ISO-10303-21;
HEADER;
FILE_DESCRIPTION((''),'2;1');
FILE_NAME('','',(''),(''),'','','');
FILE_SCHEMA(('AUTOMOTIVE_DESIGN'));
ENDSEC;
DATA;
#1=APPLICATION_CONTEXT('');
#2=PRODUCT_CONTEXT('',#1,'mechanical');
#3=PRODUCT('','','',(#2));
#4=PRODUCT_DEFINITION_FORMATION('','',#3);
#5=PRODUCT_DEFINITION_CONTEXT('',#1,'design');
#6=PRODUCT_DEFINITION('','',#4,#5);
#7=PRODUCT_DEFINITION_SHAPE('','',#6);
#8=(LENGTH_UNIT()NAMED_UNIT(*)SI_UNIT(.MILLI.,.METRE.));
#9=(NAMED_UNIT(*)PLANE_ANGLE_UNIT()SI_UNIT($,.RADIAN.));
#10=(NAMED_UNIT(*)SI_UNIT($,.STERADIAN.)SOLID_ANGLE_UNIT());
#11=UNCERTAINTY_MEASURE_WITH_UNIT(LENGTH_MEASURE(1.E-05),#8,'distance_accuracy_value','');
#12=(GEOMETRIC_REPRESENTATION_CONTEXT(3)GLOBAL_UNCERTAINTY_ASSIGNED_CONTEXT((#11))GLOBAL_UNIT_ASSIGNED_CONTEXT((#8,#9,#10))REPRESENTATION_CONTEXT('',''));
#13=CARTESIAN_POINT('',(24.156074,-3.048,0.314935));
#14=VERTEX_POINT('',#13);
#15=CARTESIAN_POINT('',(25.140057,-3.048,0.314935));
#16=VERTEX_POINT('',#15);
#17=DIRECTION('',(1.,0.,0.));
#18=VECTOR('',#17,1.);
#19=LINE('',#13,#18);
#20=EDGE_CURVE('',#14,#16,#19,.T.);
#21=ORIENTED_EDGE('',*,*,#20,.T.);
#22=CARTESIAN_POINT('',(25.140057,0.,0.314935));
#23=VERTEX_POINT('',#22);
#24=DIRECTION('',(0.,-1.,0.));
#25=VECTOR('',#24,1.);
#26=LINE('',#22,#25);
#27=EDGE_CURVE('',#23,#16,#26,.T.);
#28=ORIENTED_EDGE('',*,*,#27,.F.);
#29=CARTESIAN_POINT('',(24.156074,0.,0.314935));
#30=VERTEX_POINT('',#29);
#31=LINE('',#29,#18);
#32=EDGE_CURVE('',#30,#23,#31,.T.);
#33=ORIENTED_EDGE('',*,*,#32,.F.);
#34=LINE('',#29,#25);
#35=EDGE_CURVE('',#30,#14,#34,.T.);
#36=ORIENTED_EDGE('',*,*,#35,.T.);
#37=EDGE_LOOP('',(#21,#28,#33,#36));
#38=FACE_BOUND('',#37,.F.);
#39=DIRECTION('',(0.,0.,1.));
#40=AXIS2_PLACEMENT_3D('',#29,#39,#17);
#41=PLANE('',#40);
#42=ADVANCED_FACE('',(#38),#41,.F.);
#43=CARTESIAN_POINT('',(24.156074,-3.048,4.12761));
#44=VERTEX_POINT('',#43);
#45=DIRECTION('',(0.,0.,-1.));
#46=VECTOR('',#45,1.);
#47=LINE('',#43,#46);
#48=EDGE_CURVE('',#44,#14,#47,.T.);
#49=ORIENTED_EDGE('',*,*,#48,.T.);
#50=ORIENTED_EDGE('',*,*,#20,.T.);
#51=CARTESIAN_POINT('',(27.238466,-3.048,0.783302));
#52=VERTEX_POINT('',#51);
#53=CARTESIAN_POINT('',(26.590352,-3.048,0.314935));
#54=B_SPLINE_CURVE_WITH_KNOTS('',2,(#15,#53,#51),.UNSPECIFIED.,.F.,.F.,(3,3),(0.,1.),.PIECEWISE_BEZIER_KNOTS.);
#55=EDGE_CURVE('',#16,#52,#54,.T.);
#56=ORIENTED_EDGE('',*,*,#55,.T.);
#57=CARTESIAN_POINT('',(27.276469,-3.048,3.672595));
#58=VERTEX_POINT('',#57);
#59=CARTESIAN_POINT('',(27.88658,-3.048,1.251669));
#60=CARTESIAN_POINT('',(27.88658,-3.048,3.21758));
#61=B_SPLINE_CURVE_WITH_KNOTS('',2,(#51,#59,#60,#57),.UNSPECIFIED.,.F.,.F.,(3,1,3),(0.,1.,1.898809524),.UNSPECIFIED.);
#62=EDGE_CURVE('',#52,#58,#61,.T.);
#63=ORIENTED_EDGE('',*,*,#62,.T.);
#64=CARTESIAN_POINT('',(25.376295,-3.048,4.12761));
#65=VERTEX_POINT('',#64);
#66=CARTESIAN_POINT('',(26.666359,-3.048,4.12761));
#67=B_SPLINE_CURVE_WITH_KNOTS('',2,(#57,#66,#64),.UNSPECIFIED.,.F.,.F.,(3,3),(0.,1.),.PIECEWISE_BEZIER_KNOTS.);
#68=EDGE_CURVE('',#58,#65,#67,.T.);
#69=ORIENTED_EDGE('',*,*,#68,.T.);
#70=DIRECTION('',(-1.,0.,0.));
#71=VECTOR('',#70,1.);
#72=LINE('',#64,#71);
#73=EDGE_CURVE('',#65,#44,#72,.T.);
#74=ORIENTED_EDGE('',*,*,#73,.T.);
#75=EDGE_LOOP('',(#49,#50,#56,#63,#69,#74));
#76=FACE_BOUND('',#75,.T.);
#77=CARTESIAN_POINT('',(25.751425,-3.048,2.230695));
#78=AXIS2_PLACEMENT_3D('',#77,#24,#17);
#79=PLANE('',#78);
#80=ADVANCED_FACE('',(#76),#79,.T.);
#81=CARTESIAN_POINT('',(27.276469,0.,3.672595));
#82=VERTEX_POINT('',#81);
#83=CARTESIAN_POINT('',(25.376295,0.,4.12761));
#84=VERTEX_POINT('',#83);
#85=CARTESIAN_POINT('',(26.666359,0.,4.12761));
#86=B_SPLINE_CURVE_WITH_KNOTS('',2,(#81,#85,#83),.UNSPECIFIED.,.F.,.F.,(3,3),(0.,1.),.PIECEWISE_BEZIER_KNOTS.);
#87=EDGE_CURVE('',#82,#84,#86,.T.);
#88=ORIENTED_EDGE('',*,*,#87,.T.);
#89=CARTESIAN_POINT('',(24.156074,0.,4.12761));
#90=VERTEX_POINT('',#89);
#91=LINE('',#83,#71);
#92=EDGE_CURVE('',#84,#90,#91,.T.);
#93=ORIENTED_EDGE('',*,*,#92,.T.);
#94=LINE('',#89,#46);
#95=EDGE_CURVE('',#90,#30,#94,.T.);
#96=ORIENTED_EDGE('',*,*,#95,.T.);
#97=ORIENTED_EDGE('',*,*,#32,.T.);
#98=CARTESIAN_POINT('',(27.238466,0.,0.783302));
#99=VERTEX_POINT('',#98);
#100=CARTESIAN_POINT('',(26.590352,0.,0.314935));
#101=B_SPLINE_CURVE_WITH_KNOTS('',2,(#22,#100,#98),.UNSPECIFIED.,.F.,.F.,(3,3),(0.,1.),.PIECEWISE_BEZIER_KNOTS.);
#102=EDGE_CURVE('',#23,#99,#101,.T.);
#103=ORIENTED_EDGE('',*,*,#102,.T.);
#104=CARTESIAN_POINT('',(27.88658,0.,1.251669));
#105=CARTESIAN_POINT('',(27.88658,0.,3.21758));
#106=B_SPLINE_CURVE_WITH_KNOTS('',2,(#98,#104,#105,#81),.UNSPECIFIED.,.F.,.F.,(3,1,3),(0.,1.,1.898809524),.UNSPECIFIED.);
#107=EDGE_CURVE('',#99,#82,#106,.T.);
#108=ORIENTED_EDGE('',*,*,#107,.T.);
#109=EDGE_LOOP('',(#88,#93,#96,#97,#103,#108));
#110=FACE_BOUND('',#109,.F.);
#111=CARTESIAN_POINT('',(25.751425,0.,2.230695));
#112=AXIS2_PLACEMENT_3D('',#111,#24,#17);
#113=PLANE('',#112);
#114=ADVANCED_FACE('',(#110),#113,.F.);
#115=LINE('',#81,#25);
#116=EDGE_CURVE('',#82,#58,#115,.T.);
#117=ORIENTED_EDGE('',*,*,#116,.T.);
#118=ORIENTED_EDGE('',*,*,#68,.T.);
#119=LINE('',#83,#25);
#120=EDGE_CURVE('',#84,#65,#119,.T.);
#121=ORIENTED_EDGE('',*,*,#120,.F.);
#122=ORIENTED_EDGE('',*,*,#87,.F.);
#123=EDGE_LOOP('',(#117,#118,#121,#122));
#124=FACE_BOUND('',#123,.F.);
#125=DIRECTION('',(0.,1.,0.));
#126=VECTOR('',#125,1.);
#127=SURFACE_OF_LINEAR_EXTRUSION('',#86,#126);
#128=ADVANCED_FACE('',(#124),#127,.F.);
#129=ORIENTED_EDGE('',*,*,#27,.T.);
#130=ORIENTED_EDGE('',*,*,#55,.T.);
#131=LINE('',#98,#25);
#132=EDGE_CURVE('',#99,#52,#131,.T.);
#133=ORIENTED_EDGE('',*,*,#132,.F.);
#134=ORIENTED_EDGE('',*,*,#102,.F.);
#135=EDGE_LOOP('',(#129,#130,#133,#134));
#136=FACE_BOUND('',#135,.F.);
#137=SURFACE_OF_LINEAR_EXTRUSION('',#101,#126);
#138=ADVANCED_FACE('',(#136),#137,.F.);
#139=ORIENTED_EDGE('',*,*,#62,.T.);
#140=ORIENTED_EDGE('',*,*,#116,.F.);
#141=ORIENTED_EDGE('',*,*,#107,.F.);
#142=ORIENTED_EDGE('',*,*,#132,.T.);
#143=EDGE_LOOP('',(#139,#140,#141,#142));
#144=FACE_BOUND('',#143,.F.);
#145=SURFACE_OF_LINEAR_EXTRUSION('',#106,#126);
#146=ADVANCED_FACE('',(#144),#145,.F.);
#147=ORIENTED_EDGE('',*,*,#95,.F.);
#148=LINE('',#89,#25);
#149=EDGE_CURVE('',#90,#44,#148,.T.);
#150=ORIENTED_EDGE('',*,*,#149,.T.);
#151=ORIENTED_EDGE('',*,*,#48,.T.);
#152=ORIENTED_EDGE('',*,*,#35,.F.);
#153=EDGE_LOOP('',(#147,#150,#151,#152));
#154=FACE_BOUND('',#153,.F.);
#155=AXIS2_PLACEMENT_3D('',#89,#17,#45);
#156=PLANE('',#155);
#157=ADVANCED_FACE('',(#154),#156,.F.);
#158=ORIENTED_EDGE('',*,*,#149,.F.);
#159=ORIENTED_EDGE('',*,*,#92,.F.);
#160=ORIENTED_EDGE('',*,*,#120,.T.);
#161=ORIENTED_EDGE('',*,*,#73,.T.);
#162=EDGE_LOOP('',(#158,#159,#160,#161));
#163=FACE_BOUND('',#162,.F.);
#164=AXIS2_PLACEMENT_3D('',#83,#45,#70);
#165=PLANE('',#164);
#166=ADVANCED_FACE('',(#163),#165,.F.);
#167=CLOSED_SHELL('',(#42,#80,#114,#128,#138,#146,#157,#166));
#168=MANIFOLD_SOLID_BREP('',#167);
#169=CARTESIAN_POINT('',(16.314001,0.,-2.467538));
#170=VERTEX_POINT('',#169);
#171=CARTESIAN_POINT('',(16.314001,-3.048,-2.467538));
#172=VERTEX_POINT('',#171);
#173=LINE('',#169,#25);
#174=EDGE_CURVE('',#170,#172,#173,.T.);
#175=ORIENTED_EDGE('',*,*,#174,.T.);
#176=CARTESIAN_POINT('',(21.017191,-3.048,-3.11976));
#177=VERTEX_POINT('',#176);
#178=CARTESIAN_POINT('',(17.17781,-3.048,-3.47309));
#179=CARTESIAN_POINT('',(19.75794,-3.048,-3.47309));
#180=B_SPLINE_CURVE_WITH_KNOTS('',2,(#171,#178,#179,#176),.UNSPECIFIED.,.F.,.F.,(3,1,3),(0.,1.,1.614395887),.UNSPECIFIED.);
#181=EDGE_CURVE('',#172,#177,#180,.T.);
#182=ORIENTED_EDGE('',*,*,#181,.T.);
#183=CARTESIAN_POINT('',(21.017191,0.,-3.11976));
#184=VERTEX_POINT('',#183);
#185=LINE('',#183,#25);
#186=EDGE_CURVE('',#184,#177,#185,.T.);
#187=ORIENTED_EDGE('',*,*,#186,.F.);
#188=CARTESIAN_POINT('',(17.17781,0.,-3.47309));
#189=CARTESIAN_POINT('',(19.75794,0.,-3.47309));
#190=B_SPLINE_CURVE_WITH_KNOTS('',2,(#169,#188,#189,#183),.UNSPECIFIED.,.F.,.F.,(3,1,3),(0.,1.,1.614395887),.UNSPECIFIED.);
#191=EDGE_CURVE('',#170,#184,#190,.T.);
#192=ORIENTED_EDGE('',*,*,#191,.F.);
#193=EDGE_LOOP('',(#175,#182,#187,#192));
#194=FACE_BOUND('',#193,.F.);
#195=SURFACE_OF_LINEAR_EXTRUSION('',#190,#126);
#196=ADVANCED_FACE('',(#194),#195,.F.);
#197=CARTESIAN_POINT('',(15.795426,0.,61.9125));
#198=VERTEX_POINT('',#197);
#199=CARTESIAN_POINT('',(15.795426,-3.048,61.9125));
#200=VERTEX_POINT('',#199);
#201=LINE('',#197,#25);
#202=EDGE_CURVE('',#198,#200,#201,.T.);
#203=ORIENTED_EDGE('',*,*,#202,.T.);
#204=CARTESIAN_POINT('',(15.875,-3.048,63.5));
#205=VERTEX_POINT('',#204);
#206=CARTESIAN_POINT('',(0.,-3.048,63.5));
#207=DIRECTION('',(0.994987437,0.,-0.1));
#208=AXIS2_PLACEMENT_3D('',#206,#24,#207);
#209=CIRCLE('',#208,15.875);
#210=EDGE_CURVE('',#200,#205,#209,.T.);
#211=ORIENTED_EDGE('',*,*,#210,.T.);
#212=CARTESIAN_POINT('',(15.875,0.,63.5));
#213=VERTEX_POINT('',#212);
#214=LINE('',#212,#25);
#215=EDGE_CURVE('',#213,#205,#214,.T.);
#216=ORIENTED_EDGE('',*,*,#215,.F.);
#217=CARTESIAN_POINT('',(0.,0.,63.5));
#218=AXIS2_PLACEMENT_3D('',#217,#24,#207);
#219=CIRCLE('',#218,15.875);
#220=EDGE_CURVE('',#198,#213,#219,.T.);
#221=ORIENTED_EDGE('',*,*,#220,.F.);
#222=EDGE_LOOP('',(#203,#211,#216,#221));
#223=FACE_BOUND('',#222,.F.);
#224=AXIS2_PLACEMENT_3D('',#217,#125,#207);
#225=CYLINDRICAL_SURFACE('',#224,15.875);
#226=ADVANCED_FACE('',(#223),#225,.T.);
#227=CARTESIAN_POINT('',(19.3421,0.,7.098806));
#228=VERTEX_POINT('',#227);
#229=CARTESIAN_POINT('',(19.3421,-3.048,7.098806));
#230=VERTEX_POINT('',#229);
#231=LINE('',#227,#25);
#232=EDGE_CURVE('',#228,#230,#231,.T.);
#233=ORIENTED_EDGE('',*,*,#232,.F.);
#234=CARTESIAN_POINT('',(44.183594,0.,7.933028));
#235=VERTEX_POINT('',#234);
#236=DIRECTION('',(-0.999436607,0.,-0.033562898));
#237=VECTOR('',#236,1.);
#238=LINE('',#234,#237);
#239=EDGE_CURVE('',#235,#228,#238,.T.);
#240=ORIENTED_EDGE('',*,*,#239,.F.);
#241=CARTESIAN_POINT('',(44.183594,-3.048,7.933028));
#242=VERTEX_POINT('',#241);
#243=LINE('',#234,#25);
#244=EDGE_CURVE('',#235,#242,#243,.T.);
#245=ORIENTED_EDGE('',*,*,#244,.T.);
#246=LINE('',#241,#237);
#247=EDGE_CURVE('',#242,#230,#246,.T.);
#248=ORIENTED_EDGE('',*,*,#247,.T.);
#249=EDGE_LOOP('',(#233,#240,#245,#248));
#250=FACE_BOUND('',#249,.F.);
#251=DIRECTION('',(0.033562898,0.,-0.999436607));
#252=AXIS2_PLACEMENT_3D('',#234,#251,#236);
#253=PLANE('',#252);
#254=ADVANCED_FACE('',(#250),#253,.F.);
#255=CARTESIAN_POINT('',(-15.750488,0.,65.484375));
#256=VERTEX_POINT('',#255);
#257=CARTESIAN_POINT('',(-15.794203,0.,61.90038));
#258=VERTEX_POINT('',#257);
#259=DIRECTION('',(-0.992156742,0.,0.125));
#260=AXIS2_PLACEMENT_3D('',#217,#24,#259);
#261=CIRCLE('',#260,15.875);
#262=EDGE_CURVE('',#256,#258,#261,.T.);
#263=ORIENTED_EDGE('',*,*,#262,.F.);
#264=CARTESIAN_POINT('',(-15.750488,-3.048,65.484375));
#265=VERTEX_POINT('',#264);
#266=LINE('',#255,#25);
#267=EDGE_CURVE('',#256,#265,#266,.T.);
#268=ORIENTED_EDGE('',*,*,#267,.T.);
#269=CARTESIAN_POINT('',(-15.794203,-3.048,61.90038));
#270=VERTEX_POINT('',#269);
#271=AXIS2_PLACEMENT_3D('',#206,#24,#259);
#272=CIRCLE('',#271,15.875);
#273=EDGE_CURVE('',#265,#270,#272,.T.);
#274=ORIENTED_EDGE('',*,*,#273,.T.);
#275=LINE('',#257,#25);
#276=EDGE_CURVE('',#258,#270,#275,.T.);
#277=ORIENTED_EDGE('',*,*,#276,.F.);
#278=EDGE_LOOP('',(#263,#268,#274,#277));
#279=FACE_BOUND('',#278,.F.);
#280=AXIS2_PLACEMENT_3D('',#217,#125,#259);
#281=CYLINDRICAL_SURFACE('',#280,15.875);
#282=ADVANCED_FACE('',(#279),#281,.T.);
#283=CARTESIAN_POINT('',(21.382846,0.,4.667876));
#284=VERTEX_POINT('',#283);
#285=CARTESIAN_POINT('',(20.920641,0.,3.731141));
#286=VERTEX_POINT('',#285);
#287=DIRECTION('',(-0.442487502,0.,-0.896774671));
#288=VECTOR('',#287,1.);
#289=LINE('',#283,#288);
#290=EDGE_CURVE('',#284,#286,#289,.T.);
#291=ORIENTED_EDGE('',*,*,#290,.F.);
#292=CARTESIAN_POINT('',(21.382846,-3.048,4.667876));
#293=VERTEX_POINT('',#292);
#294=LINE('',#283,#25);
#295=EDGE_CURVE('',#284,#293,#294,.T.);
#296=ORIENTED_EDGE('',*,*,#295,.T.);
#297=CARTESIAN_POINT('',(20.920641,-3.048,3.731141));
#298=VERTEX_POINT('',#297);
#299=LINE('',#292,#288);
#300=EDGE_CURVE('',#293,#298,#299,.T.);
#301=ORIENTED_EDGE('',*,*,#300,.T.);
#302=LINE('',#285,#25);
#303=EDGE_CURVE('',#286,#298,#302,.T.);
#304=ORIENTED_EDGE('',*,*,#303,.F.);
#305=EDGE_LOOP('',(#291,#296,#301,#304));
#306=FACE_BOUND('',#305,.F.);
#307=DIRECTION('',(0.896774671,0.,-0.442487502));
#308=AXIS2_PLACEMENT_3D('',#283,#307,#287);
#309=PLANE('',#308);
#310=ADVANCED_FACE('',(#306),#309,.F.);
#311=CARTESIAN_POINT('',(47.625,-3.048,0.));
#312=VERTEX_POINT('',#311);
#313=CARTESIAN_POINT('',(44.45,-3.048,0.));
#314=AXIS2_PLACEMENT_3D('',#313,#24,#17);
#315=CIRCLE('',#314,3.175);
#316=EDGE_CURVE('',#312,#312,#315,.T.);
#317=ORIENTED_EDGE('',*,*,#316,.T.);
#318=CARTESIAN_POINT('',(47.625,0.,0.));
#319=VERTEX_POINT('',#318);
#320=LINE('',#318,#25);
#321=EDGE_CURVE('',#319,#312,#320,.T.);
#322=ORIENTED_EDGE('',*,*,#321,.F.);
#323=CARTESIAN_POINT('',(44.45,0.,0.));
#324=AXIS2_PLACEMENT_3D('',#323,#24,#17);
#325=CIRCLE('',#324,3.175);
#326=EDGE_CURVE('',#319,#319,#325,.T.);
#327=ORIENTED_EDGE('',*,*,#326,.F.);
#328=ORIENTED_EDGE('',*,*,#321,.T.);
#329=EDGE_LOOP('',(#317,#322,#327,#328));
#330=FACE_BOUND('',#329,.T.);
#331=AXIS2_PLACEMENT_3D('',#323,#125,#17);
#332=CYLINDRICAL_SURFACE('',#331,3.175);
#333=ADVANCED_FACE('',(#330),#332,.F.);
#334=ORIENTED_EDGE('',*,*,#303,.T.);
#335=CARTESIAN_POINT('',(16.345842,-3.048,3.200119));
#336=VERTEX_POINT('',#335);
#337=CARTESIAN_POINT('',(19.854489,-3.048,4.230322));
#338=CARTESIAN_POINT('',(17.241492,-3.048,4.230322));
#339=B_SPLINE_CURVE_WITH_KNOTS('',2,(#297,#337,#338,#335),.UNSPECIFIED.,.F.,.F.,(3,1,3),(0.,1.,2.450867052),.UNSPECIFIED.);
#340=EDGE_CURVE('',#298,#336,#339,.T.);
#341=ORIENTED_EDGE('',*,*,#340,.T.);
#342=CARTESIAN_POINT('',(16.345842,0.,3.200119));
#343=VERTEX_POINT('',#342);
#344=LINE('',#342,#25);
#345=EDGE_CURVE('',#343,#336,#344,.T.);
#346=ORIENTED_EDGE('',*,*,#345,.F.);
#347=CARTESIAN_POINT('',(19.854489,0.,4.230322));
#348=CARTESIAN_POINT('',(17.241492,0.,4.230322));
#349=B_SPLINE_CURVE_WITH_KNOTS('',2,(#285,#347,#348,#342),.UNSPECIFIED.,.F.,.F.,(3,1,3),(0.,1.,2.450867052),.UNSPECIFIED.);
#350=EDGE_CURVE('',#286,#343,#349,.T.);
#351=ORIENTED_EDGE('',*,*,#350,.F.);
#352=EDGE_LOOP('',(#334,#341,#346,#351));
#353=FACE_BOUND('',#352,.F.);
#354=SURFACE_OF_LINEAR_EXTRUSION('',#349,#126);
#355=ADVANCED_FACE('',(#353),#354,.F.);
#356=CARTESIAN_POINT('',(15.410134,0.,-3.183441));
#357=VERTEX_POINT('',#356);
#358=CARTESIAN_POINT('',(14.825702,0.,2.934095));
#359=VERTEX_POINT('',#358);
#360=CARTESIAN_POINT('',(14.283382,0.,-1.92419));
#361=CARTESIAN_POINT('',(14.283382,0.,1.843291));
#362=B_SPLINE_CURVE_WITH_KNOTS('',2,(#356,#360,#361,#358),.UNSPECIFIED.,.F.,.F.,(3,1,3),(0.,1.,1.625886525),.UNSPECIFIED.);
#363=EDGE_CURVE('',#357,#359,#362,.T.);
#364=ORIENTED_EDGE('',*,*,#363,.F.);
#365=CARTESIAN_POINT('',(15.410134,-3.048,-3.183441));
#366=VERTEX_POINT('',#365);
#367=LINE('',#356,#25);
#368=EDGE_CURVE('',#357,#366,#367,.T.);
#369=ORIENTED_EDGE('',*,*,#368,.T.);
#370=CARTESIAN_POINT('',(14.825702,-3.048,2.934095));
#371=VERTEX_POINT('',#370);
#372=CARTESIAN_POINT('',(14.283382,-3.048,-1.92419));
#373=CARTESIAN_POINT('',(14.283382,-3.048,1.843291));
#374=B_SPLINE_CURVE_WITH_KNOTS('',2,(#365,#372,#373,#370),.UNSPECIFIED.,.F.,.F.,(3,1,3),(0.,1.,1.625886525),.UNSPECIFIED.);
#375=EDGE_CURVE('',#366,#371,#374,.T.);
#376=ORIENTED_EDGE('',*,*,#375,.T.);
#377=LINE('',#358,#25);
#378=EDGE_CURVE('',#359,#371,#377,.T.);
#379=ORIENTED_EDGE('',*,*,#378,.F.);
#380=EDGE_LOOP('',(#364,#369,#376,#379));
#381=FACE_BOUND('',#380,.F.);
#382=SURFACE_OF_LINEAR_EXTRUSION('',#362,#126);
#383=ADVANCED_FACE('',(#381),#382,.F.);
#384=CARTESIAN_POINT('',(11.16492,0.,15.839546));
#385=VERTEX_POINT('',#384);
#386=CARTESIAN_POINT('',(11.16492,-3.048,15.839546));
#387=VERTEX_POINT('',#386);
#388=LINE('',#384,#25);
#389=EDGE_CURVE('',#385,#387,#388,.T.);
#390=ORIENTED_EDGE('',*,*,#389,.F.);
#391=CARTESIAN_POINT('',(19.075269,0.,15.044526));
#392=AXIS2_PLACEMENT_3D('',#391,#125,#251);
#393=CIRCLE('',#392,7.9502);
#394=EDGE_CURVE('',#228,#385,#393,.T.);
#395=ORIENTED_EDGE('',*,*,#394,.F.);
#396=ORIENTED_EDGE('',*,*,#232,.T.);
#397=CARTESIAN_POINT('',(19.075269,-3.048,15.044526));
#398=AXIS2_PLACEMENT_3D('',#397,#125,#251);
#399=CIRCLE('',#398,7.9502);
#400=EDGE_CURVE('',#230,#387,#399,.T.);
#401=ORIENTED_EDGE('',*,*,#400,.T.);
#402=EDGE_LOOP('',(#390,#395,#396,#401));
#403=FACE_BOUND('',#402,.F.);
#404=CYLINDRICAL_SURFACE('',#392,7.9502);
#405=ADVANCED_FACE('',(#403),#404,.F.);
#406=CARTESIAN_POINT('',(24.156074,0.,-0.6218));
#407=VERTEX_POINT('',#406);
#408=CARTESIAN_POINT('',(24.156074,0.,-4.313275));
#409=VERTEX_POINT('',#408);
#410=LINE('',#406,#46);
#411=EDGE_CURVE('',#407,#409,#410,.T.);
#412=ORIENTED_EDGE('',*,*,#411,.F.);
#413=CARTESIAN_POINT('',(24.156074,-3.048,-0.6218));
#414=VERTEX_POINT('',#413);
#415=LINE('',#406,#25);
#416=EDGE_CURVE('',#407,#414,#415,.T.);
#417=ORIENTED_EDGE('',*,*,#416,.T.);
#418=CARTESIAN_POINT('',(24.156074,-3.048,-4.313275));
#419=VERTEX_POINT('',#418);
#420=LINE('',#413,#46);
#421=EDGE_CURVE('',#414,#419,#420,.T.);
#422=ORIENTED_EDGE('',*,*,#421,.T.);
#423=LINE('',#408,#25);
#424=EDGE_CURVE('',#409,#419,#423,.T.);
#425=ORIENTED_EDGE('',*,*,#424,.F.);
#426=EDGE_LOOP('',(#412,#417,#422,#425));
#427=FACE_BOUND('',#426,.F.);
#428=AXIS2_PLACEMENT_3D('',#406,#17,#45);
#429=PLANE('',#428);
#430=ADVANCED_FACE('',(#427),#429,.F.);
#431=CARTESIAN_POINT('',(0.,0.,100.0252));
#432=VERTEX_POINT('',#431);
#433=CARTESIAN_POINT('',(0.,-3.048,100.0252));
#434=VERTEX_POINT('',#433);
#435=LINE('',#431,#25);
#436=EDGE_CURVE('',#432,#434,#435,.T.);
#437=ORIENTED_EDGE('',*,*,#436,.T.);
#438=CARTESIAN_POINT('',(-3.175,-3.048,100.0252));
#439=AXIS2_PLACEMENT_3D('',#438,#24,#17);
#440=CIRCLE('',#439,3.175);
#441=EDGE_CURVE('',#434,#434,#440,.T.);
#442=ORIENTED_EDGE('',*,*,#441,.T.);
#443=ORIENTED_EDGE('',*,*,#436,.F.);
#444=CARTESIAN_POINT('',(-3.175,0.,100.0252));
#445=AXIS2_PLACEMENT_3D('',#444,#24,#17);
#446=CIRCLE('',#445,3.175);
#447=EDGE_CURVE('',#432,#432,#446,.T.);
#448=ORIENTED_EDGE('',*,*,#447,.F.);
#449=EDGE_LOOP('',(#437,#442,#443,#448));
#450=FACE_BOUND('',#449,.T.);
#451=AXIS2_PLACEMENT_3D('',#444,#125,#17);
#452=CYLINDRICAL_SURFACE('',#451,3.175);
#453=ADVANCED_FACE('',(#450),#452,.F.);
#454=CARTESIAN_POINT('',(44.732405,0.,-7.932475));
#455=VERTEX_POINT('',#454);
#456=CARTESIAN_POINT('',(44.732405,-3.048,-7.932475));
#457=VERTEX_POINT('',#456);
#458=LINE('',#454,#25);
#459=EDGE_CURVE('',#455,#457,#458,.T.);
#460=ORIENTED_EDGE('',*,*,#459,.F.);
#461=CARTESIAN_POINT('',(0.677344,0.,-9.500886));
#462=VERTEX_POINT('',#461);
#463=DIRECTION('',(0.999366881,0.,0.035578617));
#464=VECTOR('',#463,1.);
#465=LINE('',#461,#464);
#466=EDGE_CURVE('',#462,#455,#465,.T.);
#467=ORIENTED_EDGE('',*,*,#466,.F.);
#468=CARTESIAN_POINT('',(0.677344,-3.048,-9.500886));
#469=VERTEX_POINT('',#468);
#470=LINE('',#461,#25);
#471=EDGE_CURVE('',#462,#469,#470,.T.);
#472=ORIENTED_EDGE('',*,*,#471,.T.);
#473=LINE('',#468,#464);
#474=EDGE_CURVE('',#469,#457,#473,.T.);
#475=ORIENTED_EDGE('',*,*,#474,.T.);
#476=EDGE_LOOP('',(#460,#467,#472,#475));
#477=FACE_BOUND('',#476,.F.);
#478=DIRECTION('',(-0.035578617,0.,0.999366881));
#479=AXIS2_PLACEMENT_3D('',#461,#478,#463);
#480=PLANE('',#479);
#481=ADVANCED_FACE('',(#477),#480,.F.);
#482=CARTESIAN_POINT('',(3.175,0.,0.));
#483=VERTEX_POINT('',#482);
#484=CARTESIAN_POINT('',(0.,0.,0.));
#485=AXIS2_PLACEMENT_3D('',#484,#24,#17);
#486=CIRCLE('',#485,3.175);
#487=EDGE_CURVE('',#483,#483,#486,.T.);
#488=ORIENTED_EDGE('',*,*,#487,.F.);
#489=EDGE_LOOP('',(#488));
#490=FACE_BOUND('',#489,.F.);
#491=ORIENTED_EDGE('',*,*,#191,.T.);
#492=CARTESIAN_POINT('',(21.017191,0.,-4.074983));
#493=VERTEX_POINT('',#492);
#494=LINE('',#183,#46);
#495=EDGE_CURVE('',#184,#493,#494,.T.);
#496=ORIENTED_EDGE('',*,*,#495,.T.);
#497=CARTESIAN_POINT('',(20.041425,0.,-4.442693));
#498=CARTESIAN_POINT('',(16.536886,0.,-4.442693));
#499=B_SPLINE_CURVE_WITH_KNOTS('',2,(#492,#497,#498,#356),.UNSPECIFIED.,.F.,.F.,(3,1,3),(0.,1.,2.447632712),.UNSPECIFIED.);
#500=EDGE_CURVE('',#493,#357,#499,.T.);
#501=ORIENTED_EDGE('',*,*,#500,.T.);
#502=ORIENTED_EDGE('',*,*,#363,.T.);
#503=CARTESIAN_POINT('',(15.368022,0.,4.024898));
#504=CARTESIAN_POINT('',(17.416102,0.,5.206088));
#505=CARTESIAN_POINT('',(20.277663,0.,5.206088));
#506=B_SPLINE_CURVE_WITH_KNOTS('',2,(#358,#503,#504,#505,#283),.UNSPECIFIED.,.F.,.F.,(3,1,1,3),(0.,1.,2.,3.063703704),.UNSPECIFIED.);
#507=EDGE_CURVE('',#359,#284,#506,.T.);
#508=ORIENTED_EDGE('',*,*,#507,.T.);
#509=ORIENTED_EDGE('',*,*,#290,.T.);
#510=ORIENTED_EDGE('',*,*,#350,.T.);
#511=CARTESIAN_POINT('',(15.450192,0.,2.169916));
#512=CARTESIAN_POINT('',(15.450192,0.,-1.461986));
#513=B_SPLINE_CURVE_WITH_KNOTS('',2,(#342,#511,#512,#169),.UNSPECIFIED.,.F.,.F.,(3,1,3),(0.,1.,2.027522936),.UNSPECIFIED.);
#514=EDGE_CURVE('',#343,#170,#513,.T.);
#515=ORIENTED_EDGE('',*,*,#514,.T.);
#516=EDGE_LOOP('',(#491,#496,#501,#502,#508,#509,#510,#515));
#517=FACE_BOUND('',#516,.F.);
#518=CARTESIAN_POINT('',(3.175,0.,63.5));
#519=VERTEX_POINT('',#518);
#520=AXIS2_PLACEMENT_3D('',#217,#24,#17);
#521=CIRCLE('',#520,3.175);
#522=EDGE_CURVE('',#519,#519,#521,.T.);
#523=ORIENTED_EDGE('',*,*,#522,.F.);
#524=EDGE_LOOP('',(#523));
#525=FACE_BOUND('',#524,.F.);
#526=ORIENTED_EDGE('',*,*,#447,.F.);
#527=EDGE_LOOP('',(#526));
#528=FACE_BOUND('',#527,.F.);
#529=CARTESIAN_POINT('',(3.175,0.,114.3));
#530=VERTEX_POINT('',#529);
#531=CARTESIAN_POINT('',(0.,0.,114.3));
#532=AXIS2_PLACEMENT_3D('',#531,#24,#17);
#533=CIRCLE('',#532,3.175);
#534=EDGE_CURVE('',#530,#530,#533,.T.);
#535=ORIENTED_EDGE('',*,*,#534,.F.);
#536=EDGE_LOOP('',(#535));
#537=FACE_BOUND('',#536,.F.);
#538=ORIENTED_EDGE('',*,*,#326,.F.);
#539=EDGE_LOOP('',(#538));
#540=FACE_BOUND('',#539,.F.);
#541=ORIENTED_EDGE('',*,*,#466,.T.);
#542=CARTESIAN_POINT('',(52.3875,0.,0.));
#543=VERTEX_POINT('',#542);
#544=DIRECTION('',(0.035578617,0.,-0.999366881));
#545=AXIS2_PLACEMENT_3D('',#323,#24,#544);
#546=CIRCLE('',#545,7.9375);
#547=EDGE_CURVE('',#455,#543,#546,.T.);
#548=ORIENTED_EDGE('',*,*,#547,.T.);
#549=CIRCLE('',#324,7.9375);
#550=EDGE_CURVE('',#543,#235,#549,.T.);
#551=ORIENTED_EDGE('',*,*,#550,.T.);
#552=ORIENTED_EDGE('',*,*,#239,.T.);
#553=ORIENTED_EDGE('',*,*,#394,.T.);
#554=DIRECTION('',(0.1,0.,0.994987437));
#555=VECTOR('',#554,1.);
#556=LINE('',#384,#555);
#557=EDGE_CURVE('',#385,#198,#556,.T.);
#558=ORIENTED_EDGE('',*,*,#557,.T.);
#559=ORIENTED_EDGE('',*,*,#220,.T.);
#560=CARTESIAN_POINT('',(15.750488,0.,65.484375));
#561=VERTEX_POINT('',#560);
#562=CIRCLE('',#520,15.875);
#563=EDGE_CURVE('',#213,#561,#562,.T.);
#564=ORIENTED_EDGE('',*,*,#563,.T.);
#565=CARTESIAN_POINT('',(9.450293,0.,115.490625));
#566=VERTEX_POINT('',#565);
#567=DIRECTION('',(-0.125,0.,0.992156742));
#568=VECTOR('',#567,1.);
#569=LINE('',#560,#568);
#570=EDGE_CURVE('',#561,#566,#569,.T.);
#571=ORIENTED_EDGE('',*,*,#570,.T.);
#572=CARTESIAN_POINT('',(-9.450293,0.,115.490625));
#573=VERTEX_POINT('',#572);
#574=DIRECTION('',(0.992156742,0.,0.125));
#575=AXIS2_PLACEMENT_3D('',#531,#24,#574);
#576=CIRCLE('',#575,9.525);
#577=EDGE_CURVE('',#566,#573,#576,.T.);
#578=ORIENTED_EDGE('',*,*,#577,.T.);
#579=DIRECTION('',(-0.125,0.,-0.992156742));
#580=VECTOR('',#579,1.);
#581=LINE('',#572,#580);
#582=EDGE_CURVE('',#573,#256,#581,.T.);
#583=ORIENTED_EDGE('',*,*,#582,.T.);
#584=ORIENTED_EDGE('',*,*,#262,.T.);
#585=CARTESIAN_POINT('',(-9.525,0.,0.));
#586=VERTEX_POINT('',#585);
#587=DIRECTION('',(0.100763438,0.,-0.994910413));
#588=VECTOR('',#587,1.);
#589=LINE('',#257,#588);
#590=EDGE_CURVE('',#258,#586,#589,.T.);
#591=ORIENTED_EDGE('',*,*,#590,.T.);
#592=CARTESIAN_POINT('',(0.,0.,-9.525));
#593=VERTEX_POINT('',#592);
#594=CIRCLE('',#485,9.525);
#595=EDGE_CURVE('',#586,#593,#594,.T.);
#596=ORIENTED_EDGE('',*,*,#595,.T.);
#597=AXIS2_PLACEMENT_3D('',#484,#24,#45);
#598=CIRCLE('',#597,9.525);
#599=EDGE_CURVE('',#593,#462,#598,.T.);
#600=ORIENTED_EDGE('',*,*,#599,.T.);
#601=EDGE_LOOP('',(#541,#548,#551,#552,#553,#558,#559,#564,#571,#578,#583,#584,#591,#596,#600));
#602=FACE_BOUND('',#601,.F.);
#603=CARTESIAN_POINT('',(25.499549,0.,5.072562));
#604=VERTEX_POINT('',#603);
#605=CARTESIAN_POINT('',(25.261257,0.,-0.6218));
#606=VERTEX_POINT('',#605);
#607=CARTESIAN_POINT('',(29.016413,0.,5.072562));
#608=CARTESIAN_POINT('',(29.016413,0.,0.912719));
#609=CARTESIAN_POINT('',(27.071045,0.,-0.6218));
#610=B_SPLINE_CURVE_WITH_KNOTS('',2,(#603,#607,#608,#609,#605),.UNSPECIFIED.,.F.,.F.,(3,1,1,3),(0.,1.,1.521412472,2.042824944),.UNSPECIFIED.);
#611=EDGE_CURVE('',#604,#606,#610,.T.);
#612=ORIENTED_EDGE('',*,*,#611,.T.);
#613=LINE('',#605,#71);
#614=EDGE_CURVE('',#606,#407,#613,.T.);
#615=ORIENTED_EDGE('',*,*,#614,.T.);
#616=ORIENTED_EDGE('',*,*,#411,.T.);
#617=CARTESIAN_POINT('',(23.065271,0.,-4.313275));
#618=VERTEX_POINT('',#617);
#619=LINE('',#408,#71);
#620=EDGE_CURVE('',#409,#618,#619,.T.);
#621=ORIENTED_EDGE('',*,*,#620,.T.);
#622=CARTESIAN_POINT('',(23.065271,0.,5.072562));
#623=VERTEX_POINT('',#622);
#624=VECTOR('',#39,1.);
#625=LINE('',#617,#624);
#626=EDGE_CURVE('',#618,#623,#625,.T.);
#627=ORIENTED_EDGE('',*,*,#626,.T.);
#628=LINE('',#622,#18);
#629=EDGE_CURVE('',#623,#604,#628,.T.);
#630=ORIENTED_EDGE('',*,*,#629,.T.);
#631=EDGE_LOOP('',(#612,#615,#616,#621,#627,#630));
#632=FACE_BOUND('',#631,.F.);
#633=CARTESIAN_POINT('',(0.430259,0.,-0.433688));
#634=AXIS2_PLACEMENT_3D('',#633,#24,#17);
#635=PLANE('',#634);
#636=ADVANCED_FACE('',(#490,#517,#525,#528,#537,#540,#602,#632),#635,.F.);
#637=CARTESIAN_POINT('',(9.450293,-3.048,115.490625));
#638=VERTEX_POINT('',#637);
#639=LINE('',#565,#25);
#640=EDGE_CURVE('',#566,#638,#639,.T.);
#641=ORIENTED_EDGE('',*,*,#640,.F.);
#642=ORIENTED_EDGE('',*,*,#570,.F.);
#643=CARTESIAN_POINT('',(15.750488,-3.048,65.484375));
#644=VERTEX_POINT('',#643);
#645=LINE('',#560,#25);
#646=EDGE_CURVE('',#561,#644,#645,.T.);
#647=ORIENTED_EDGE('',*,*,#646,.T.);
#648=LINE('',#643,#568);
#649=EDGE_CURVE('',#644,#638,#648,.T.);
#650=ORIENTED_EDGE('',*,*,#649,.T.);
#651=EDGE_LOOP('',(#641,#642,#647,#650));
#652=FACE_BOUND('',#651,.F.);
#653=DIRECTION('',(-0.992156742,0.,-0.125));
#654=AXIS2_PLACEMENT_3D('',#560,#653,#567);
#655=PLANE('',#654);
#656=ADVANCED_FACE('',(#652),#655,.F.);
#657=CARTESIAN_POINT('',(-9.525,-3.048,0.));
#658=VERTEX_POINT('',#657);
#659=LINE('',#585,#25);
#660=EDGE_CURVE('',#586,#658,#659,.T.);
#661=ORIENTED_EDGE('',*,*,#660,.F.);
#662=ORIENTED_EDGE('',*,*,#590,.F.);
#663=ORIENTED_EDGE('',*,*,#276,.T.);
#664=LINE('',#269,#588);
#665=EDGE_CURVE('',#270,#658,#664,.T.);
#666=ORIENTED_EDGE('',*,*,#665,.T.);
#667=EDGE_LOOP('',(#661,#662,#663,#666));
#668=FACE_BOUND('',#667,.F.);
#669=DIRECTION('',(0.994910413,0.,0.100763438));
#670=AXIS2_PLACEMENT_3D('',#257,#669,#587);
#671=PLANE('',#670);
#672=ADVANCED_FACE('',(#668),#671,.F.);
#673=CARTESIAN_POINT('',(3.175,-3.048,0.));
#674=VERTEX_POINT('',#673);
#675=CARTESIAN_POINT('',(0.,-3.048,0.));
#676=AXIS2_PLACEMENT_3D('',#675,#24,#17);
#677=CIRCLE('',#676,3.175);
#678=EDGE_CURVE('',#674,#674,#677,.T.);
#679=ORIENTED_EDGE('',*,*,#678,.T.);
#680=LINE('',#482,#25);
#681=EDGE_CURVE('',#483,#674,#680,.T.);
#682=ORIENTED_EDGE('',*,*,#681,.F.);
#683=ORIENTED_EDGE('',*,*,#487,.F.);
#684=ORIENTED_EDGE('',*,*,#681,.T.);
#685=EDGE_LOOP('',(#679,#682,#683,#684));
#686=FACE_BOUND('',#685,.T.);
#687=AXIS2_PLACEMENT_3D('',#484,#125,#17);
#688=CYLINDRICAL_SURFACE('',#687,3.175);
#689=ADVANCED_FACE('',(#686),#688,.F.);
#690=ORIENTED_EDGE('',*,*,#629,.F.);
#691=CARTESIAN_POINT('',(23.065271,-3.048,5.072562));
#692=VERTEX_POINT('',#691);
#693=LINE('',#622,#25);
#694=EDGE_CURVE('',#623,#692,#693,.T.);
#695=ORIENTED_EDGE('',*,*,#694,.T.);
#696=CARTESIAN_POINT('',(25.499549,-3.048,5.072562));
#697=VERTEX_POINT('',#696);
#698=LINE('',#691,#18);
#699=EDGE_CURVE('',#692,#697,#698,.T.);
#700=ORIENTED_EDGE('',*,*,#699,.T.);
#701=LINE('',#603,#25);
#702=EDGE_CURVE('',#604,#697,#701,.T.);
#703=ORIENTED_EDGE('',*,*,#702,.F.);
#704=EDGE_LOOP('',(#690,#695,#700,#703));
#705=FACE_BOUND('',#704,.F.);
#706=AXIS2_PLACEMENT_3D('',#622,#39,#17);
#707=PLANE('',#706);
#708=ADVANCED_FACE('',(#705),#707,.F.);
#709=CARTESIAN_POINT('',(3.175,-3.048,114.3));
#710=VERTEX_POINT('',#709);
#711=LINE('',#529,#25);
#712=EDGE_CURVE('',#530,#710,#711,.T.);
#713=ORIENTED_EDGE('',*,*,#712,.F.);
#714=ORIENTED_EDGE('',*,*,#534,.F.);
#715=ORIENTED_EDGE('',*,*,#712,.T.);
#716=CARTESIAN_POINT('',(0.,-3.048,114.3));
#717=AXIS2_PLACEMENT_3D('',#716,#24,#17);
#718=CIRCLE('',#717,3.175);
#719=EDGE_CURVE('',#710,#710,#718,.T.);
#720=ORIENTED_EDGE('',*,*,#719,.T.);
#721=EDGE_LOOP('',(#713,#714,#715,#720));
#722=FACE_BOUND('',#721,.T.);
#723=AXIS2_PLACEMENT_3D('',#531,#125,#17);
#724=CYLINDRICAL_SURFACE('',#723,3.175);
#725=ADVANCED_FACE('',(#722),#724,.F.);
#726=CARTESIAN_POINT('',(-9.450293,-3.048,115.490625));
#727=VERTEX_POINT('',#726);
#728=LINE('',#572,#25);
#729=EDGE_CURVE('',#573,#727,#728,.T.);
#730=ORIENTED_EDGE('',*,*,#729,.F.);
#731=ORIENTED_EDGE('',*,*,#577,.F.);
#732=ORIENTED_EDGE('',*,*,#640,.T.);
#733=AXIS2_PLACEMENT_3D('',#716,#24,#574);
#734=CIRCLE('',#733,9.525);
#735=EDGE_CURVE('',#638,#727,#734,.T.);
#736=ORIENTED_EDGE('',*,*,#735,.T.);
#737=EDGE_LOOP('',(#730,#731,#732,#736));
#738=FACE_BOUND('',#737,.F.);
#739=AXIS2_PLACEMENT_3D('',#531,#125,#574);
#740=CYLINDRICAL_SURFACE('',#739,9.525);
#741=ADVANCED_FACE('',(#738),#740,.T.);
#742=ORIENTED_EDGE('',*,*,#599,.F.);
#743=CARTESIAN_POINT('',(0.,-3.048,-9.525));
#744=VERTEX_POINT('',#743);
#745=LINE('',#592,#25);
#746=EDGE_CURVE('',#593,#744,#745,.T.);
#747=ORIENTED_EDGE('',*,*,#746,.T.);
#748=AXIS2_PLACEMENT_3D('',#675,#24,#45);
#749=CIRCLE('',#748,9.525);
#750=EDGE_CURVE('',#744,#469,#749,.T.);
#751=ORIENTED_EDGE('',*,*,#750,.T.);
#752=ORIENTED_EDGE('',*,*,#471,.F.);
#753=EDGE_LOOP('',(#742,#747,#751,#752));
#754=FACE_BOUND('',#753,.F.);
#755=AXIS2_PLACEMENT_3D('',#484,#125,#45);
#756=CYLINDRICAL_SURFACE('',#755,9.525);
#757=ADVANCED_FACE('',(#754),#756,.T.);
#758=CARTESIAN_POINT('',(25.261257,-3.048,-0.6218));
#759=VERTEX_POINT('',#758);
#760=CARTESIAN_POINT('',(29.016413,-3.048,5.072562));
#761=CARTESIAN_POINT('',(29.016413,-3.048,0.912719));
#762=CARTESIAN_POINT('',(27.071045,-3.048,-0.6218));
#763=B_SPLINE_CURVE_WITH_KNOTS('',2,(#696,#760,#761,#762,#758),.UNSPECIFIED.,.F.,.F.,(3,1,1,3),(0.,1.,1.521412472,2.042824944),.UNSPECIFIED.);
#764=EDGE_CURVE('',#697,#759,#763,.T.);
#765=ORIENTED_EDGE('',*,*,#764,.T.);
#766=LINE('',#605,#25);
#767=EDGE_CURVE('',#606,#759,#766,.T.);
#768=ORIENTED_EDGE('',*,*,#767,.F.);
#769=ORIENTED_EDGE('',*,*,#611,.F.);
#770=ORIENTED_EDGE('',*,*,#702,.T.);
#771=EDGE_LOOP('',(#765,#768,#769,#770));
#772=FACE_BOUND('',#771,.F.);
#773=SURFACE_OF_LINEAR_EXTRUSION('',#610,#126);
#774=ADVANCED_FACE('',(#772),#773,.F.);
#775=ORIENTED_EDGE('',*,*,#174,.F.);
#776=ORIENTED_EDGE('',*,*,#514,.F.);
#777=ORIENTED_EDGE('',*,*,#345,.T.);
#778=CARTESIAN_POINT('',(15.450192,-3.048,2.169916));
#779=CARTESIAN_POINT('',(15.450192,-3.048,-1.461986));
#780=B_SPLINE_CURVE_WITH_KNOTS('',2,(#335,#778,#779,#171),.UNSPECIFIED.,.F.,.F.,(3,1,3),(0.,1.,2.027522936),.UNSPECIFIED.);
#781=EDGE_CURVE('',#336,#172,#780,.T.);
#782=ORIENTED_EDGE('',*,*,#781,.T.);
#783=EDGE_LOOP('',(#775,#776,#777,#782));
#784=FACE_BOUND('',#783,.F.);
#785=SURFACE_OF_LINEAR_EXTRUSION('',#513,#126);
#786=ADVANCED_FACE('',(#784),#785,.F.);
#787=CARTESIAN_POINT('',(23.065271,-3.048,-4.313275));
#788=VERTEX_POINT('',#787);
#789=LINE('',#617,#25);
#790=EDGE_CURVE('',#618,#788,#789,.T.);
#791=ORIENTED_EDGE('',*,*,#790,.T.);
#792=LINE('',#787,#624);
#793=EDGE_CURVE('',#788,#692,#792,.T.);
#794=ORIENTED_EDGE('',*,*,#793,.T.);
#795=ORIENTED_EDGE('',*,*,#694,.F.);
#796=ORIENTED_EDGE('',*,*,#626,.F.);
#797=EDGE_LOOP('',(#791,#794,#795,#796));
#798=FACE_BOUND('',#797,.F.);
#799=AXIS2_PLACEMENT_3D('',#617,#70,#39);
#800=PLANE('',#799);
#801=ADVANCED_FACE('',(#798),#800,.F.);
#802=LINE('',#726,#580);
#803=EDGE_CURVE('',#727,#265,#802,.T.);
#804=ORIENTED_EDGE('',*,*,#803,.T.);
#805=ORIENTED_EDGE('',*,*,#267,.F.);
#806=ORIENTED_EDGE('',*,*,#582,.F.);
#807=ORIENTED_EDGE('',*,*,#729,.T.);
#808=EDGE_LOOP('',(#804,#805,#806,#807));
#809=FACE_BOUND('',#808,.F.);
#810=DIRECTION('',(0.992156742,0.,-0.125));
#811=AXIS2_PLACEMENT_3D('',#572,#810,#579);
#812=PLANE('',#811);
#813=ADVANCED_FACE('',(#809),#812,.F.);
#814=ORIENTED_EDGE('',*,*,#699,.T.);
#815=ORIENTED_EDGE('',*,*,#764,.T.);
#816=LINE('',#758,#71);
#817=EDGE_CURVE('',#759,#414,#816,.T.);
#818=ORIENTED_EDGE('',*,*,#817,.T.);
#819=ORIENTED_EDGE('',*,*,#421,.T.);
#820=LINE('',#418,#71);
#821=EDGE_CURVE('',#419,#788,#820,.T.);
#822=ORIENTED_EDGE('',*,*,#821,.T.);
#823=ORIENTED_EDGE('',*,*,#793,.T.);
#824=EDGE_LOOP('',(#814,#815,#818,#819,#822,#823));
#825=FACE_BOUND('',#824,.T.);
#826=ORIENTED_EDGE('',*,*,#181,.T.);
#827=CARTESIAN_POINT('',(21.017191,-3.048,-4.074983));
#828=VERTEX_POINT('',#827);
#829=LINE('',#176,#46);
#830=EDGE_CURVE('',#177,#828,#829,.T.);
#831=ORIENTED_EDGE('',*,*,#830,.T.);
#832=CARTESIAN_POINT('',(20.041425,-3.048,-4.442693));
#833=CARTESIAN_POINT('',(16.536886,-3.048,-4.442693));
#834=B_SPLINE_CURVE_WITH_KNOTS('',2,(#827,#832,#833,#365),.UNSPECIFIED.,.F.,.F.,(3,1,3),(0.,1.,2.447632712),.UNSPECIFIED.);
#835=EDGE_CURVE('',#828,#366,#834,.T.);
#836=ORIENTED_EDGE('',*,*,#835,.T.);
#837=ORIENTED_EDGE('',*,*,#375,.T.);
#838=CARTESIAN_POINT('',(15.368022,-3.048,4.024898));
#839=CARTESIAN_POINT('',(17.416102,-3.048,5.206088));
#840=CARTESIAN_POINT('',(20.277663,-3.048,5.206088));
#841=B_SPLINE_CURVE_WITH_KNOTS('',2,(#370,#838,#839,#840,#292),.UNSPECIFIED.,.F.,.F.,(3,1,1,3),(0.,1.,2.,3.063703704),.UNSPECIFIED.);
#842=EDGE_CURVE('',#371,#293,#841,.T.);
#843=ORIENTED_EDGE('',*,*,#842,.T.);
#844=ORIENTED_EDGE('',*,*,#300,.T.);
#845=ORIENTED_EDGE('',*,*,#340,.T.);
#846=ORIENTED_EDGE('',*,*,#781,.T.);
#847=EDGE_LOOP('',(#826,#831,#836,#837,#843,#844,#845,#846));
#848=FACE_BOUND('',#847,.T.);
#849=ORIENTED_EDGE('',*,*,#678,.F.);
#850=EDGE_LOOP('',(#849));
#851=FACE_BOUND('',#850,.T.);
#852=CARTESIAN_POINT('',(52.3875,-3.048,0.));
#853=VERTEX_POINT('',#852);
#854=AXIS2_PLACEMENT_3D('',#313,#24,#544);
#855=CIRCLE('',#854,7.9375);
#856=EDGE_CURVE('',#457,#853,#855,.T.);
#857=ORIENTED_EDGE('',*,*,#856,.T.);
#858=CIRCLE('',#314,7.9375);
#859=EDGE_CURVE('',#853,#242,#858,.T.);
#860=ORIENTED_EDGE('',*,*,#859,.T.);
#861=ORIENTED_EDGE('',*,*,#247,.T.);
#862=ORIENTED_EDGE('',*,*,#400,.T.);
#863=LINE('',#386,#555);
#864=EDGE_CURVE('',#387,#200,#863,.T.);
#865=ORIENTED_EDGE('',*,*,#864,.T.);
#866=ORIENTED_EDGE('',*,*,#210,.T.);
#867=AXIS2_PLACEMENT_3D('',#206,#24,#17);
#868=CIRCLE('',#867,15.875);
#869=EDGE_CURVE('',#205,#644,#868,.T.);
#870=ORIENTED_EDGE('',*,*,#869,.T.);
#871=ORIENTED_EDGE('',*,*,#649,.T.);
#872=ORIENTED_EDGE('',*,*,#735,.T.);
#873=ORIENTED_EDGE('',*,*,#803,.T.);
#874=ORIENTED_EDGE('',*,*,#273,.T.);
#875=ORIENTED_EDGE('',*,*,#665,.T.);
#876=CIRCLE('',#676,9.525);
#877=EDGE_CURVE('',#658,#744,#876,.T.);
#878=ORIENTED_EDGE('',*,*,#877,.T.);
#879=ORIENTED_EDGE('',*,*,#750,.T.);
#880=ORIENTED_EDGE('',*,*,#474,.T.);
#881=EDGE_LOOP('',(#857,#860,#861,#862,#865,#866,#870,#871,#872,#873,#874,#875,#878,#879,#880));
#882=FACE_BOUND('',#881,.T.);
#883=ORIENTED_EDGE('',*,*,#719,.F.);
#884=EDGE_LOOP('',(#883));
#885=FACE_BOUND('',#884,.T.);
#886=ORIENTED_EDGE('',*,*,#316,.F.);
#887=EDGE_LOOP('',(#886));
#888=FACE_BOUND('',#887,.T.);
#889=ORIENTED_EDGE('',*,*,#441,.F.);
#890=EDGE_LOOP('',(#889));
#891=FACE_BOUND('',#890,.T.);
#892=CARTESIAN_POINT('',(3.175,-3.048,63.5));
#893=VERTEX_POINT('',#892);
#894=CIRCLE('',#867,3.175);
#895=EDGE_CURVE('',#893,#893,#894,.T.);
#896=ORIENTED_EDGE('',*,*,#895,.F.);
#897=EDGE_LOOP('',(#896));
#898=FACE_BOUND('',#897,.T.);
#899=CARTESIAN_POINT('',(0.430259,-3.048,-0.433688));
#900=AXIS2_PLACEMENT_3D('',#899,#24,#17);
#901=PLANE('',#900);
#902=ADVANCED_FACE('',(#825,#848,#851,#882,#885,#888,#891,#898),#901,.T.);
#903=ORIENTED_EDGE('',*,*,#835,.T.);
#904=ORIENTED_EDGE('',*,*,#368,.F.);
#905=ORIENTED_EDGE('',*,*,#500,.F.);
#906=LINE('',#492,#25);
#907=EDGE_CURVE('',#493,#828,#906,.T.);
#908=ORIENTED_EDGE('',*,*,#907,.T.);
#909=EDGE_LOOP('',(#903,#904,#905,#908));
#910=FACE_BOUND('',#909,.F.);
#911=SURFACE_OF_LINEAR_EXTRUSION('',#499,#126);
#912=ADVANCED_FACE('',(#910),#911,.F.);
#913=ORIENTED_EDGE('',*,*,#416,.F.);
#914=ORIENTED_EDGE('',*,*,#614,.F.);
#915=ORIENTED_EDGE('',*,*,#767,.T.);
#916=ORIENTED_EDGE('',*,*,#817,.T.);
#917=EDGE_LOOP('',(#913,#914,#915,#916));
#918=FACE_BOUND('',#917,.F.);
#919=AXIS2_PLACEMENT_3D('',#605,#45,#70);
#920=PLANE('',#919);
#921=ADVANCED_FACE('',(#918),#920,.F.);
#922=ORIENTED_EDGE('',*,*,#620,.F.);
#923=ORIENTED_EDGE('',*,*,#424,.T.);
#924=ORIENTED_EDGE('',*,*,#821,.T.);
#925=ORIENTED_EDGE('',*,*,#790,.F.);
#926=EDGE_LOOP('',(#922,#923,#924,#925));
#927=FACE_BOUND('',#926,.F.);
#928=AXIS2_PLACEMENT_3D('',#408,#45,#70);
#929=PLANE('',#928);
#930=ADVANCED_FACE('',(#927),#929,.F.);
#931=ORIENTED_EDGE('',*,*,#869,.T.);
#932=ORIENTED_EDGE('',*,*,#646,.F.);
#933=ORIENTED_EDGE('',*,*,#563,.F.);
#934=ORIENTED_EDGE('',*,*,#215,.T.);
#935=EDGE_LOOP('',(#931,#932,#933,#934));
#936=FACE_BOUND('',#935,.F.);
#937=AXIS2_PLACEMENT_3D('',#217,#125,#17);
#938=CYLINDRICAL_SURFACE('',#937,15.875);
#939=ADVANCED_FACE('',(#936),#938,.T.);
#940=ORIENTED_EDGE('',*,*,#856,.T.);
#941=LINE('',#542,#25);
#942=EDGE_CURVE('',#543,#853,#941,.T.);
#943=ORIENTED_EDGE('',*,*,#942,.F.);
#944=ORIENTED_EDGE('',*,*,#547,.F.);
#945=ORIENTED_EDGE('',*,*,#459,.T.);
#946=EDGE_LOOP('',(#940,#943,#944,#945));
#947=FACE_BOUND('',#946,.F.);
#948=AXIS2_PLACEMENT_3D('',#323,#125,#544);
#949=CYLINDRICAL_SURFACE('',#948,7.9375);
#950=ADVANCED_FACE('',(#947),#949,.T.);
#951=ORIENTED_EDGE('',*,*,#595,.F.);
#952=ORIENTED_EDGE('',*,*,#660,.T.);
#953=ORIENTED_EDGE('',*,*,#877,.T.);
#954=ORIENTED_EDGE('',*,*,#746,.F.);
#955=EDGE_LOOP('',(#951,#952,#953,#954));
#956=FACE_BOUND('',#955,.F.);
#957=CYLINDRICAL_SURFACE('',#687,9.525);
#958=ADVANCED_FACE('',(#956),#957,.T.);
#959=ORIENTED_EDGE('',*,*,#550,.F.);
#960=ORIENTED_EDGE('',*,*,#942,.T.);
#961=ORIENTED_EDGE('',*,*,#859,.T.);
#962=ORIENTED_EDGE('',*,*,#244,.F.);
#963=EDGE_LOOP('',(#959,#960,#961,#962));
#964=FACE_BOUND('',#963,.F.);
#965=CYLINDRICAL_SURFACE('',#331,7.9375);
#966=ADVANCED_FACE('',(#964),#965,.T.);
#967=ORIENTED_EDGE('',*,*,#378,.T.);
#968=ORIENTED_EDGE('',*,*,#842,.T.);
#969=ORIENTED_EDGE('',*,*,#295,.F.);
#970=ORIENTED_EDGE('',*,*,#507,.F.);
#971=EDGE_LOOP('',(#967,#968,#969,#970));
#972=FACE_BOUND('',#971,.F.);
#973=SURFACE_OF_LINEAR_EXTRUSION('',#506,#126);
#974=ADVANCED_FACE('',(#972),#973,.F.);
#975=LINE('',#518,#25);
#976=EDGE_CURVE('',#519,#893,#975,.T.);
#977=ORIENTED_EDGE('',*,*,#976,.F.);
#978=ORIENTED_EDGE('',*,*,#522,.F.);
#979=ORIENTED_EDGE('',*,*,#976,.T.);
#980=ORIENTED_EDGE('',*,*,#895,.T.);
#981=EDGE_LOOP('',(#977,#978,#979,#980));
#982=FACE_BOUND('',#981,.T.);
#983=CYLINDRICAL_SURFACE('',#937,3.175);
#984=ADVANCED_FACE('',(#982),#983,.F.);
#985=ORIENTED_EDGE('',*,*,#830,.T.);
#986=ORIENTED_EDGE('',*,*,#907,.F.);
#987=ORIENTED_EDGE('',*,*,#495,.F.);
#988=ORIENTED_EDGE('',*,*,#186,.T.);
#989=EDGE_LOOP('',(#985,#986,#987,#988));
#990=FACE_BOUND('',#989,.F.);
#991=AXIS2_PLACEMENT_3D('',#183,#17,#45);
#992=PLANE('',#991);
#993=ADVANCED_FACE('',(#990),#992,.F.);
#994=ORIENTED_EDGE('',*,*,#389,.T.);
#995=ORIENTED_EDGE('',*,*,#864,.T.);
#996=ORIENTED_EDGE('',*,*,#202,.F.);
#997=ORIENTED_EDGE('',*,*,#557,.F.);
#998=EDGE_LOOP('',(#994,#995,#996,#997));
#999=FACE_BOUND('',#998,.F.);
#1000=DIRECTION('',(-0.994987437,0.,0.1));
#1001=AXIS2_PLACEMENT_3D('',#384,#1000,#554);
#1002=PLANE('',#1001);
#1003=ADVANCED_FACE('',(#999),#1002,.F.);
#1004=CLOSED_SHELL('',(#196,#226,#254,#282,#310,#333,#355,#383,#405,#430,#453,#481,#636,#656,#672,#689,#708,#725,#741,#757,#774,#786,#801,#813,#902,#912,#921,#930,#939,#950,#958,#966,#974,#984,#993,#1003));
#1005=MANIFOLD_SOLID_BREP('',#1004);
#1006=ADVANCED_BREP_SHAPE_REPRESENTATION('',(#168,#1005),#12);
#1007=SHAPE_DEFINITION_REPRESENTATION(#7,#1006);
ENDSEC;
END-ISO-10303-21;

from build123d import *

# Parameters (mm, degrees)
F0_R     = 3.175
F1_DEPTH = 3.048


with BuildPart() as f1:
    # F0 (on Front) → F1 (new body)
    with BuildSketch(Plane.XZ):
        with BuildLine():
            ThreePointArc((0.6773435479, -9.500885786), (6.9705567315, -6.4912990883), (9.525, 0))
            ThreePointArc((9.525, 0), (0, 9.525), (-9.525, 0))
            ThreePointArc((-9.525, 0), (-6.7351920908, -6.7351920908), (0, -9.525))
            Line((0, -9.525), (0.6773435479, -9.500885786))
        make_face()
        Circle(F0_R, mode=Mode.SUBTRACT)
        with BuildLine():
            ThreePointArc((-9.525, 0), (0, 9.525), (9.525, 0))
            ThreePointArc((9.525, 0), (6.9705567315, -6.4912990883), (0.6773435479, -9.500885786))
            Line((0.6773435479, -9.500885786), (44.7324052746, -7.9324746146))
            ThreePointArc((44.7324052746, -7.9324746146), (36.517244624, -0.2744055301), (44.1835944934, 7.9330280698))
            Line((44.1835944934, 7.9330280698), (19.3421003836, 7.0988055303))
            ThreePointArc((19.3421003836, 7.0988055303), (13.26958371, 9.6131635709), (11.1649195057, 15.839546445))
            Line((11.1649195057, 15.839546445), (15.7954255641, 61.9125))
            ThreePointArc((15.7954255641, 61.9125), (0.0060905531, 47.6250011683), (-15.7942028036, 61.9003804205))
            Line((-15.7942028036, 61.9003804205), (-9.525, 0))
        make_face()
        with BuildLine():
            add(Edge.make_bspline(
                [(20.9206411995, 3.7311409307), (19.8544890082, 4.2303220145), (18.7883368169, 4.2303220145)],
                knots=[0, 0, 0, 1, 1, 1], degree=2))
            add(Edge.make_bspline(
                [(18.7883368169, 4.2303220145), (17.2414917301, 4.2303220145), (16.3458417197, 3.2001190782)],
                knots=[0, 0, 0, 1, 1, 1], degree=2))
            add(Edge.make_bspline(
                [(16.3458417197, 3.2001190782), (15.4501917092, 2.1699161419), (15.4501917092, 0.378616121)],
                knots=[0, 0, 0, 1, 1, 1], degree=2))
            add(Edge.make_bspline(
                [(15.4501917092, 0.378616121), (15.4501917092, -1.4619857353), (16.3140009509, -2.4675377538)],
                knots=[0, 0, 0, 1, 1, 1], degree=2))
            add(Edge.make_bspline(
                [(16.3140009509, -2.4675377538), (17.1778101926, -3.4730897724), (18.7760113581, -3.4730897724)],
                knots=[0, 0, 0, 1, 1, 1], degree=2))
            add(Edge.make_bspline(
                [(18.7760113581, -3.4730897724), (19.7579395805, -3.4730897724), (21.0171906273, -3.1197599518)],
                knots=[0, 0, 0, 1, 1, 1], degree=2))
            Line((21.0171906273, -3.1197599518), (21.0171906273, -4.0749830134))
            add(Edge.make_bspline(
                [(21.0171906273, -4.0749830134), (20.0414251343, -4.442692536), (18.6096176635, -4.442692536)],
                knots=[0, 0, 0, 1, 1, 1], degree=2))
            add(Edge.make_bspline(
                [(18.6096176635, -4.442692536), (16.536886332, -4.442692536), (15.4101339679, -3.1834414893)],
                knots=[0, 0, 0, 1, 1, 1], degree=2))
            add(Edge.make_bspline(
                [(15.4101339679, -3.1834414893), (14.2833816039, -1.9241904425), (14.2833816039, 0.3929958231)],
                knots=[0, 0, 0, 1, 1, 1], degree=2))
            add(Edge.make_bspline(
                [(14.2833816039, 0.3929958231), (14.2833816039, 1.8432914821), (14.8257017937, 2.9340945912)],
                knots=[0, 0, 0, 1, 1, 1], degree=2))
            add(Edge.make_bspline(
                [(14.8257017937, 2.9340945912), (15.3680219835, 4.0248977002), (16.3920621904, 4.6154926039)],
                knots=[0, 0, 0, 1, 1, 1], degree=2))
            add(Edge.make_bspline(
                [(16.3920621904, 4.6154926039), (17.4161023973, 5.2060875076), (18.8027165189, 5.2060875076)],
                knots=[0, 0, 0, 1, 1, 1], degree=2))
            add(Edge.make_bspline(
                [(18.8027165189, 5.2060875076), (20.2776630957, 5.2060875076), (21.3828459068, 4.667875804)],
                knots=[0, 0, 0, 1, 1, 1], degree=2))
            Line((21.3828459068, 4.667875804), (20.9206411995, 3.7311409307))
        make_face(mode=Mode.SUBTRACT)
        with BuildLine():
            add(Edge.make_bspline(
                [(25.4995491657, 5.0725617032), (29.0164134269, 5.0725617032), (29.0164134269, 2.3383640797)],
                knots=[0, 0, 0, 1, 1, 1], degree=2))
            add(Edge.make_bspline(
                [(29.0164134269, 2.3383640797), (29.0164134269, 0.9127193383), (28.0437292986, 0.1454595243)],
                knots=[0, 0, 0, 1, 1, 1], degree=2))
            add(Edge.make_bspline(
                [(28.0437292986, 0.1454595243), (27.0710451703, -0.6218002897), (25.2612569611, -0.6218002897)],
                knots=[0, 0, 0, 1, 1, 1], degree=2))
            Line((25.2612569611, -0.6218002897), (24.1560741501, -0.6218002897))
            Line((24.1560741501, -0.6218002897), (24.1560741501, -4.313275218))
            Line((24.1560741501, -4.313275218), (23.065271041, -4.313275218))
            Line((23.065271041, -4.313275218), (23.065271041, 5.0725617032))
            Line((23.065271041, 5.0725617032), (25.4995491657, 5.0725617032))
        make_face(mode=Mode.SUBTRACT)
        with BuildLine():
            ThreePointArc((0, -9.525), (0.3388863295, -9.5189695375), (0.6773435479, -9.500885786))
            Line((0.6773435479, -9.500885786), (0, -9.525))
        make_face()
        with BuildLine():
            ThreePointArc((-15.7504882737, 65.484375), (-15.8738192656, 63.6936154008), (-15.7942028036, 61.9003804205))
            ThreePointArc((-15.7942028036, 61.9003804205), (0.0060905531, 47.6250011683), (15.7954255641, 61.9125))
            ThreePointArc((15.7954255641, 61.9125), (15.8550939106, 62.7052534459), (15.875, 63.5))
            ThreePointArc((15.875, 63.5), (15.8438414904, 64.4941387366), (15.7504882737, 65.484375))
            ThreePointArc((15.7504882737, 65.484375), (0, 79.375), (-15.7504882737, 65.484375))
        make_face()
        with Locations((0, 63.5)):
            Circle(F0_R, mode=Mode.SUBTRACT)
        with BuildLine():
            ThreePointArc((44.1835944934, 7.9330280698), (36.517244624, -0.2744055301), (44.7324052746, -7.9324746146))
            ThreePointArc((44.7324052746, -7.9324746146), (50.1616327839, -5.5119104847), (52.3875, 0))
            ThreePointArc((52.3875, 0), (49.9676676477, 5.7060713262), (44.1835944934, 7.9330280698))
        make_face()
        with Locations((44.45, 0)):
            Circle(F0_R, mode=Mode.SUBTRACT)
        with BuildLine():
            Line((-9.4502929642, 115.490625), (-15.7504882737, 65.484375))
            ThreePointArc((-15.7504882737, 65.484375), (0, 79.375), (15.7504882737, 65.484375))
            Line((15.7504882737, 65.484375), (9.4502929642, 115.490625))
            ThreePointArc((9.4502929642, 115.490625), (9.5063048942, 114.896483242), (9.525, 114.3))
            ThreePointArc((9.525, 114.3), (-0.596483242, 104.7936951058), (-9.4502929642, 115.490625))
        make_face()
        with Locations((-3.175, 100.0252)):
            Circle(F0_R, mode=Mode.SUBTRACT)
        with BuildLine():
            ThreePointArc((9.4502929642, 115.490625), (0, 123.825), (-9.4502929642, 115.490625))
            ThreePointArc((-9.4502929642, 115.490625), (-0.596483242, 104.7936951058), (9.525, 114.3))
            ThreePointArc((9.525, 114.3), (9.5063048942, 114.896483242), (9.4502929642, 115.490625))
        make_face()
        with Locations((0, 114.3)):
            Circle(F0_R, mode=Mode.SUBTRACT)
    extrude(amount=F1_DEPTH)


with BuildPart() as f1b:
    # F0 (on Front) → F1, piece 2 (new body)
    with BuildSketch(Plane.XZ):
        with BuildLine():
            Line((24.1560741501, 4.1276098574), (24.1560741501, 0.3149345836))
            Line((24.1560741501, 0.3149345836), (25.1400566157, 0.3149345836))
            add(Edge.make_bspline(
                [(25.1400566157, 0.3149345836), (26.5903522748, 0.3149345836), (27.2384659864, 0.7833020203)],
                knots=[0, 0, 0, 1, 1, 1], degree=2))
            add(Edge.make_bspline(
                [(27.2384659864, 0.7833020203), (27.8865796981, 1.2516694569), (27.8865796981, 2.2870080011)],
                knots=[0, 0, 0, 1, 1, 1], degree=2))
            add(Edge.make_bspline(
                [(27.8865796981, 2.2870080011), (27.8865796981, 3.2175801449), (27.2764694846, 3.6725950012)],
                knots=[0, 0, 0, 1, 1, 1], degree=2))
            add(Edge.make_bspline(
                [(27.2764694846, 3.6725950012), (26.6663592711, 4.1276098574), (25.3762945771, 4.1276098574)],
                knots=[0, 0, 0, 1, 1, 1], degree=2))
            Line((25.3762945771, 4.1276098574), (24.1560741501, 4.1276098574))
        make_face()
    extrude(amount=F1_DEPTH)


solid = Compound([f1.part, f1b.part])
